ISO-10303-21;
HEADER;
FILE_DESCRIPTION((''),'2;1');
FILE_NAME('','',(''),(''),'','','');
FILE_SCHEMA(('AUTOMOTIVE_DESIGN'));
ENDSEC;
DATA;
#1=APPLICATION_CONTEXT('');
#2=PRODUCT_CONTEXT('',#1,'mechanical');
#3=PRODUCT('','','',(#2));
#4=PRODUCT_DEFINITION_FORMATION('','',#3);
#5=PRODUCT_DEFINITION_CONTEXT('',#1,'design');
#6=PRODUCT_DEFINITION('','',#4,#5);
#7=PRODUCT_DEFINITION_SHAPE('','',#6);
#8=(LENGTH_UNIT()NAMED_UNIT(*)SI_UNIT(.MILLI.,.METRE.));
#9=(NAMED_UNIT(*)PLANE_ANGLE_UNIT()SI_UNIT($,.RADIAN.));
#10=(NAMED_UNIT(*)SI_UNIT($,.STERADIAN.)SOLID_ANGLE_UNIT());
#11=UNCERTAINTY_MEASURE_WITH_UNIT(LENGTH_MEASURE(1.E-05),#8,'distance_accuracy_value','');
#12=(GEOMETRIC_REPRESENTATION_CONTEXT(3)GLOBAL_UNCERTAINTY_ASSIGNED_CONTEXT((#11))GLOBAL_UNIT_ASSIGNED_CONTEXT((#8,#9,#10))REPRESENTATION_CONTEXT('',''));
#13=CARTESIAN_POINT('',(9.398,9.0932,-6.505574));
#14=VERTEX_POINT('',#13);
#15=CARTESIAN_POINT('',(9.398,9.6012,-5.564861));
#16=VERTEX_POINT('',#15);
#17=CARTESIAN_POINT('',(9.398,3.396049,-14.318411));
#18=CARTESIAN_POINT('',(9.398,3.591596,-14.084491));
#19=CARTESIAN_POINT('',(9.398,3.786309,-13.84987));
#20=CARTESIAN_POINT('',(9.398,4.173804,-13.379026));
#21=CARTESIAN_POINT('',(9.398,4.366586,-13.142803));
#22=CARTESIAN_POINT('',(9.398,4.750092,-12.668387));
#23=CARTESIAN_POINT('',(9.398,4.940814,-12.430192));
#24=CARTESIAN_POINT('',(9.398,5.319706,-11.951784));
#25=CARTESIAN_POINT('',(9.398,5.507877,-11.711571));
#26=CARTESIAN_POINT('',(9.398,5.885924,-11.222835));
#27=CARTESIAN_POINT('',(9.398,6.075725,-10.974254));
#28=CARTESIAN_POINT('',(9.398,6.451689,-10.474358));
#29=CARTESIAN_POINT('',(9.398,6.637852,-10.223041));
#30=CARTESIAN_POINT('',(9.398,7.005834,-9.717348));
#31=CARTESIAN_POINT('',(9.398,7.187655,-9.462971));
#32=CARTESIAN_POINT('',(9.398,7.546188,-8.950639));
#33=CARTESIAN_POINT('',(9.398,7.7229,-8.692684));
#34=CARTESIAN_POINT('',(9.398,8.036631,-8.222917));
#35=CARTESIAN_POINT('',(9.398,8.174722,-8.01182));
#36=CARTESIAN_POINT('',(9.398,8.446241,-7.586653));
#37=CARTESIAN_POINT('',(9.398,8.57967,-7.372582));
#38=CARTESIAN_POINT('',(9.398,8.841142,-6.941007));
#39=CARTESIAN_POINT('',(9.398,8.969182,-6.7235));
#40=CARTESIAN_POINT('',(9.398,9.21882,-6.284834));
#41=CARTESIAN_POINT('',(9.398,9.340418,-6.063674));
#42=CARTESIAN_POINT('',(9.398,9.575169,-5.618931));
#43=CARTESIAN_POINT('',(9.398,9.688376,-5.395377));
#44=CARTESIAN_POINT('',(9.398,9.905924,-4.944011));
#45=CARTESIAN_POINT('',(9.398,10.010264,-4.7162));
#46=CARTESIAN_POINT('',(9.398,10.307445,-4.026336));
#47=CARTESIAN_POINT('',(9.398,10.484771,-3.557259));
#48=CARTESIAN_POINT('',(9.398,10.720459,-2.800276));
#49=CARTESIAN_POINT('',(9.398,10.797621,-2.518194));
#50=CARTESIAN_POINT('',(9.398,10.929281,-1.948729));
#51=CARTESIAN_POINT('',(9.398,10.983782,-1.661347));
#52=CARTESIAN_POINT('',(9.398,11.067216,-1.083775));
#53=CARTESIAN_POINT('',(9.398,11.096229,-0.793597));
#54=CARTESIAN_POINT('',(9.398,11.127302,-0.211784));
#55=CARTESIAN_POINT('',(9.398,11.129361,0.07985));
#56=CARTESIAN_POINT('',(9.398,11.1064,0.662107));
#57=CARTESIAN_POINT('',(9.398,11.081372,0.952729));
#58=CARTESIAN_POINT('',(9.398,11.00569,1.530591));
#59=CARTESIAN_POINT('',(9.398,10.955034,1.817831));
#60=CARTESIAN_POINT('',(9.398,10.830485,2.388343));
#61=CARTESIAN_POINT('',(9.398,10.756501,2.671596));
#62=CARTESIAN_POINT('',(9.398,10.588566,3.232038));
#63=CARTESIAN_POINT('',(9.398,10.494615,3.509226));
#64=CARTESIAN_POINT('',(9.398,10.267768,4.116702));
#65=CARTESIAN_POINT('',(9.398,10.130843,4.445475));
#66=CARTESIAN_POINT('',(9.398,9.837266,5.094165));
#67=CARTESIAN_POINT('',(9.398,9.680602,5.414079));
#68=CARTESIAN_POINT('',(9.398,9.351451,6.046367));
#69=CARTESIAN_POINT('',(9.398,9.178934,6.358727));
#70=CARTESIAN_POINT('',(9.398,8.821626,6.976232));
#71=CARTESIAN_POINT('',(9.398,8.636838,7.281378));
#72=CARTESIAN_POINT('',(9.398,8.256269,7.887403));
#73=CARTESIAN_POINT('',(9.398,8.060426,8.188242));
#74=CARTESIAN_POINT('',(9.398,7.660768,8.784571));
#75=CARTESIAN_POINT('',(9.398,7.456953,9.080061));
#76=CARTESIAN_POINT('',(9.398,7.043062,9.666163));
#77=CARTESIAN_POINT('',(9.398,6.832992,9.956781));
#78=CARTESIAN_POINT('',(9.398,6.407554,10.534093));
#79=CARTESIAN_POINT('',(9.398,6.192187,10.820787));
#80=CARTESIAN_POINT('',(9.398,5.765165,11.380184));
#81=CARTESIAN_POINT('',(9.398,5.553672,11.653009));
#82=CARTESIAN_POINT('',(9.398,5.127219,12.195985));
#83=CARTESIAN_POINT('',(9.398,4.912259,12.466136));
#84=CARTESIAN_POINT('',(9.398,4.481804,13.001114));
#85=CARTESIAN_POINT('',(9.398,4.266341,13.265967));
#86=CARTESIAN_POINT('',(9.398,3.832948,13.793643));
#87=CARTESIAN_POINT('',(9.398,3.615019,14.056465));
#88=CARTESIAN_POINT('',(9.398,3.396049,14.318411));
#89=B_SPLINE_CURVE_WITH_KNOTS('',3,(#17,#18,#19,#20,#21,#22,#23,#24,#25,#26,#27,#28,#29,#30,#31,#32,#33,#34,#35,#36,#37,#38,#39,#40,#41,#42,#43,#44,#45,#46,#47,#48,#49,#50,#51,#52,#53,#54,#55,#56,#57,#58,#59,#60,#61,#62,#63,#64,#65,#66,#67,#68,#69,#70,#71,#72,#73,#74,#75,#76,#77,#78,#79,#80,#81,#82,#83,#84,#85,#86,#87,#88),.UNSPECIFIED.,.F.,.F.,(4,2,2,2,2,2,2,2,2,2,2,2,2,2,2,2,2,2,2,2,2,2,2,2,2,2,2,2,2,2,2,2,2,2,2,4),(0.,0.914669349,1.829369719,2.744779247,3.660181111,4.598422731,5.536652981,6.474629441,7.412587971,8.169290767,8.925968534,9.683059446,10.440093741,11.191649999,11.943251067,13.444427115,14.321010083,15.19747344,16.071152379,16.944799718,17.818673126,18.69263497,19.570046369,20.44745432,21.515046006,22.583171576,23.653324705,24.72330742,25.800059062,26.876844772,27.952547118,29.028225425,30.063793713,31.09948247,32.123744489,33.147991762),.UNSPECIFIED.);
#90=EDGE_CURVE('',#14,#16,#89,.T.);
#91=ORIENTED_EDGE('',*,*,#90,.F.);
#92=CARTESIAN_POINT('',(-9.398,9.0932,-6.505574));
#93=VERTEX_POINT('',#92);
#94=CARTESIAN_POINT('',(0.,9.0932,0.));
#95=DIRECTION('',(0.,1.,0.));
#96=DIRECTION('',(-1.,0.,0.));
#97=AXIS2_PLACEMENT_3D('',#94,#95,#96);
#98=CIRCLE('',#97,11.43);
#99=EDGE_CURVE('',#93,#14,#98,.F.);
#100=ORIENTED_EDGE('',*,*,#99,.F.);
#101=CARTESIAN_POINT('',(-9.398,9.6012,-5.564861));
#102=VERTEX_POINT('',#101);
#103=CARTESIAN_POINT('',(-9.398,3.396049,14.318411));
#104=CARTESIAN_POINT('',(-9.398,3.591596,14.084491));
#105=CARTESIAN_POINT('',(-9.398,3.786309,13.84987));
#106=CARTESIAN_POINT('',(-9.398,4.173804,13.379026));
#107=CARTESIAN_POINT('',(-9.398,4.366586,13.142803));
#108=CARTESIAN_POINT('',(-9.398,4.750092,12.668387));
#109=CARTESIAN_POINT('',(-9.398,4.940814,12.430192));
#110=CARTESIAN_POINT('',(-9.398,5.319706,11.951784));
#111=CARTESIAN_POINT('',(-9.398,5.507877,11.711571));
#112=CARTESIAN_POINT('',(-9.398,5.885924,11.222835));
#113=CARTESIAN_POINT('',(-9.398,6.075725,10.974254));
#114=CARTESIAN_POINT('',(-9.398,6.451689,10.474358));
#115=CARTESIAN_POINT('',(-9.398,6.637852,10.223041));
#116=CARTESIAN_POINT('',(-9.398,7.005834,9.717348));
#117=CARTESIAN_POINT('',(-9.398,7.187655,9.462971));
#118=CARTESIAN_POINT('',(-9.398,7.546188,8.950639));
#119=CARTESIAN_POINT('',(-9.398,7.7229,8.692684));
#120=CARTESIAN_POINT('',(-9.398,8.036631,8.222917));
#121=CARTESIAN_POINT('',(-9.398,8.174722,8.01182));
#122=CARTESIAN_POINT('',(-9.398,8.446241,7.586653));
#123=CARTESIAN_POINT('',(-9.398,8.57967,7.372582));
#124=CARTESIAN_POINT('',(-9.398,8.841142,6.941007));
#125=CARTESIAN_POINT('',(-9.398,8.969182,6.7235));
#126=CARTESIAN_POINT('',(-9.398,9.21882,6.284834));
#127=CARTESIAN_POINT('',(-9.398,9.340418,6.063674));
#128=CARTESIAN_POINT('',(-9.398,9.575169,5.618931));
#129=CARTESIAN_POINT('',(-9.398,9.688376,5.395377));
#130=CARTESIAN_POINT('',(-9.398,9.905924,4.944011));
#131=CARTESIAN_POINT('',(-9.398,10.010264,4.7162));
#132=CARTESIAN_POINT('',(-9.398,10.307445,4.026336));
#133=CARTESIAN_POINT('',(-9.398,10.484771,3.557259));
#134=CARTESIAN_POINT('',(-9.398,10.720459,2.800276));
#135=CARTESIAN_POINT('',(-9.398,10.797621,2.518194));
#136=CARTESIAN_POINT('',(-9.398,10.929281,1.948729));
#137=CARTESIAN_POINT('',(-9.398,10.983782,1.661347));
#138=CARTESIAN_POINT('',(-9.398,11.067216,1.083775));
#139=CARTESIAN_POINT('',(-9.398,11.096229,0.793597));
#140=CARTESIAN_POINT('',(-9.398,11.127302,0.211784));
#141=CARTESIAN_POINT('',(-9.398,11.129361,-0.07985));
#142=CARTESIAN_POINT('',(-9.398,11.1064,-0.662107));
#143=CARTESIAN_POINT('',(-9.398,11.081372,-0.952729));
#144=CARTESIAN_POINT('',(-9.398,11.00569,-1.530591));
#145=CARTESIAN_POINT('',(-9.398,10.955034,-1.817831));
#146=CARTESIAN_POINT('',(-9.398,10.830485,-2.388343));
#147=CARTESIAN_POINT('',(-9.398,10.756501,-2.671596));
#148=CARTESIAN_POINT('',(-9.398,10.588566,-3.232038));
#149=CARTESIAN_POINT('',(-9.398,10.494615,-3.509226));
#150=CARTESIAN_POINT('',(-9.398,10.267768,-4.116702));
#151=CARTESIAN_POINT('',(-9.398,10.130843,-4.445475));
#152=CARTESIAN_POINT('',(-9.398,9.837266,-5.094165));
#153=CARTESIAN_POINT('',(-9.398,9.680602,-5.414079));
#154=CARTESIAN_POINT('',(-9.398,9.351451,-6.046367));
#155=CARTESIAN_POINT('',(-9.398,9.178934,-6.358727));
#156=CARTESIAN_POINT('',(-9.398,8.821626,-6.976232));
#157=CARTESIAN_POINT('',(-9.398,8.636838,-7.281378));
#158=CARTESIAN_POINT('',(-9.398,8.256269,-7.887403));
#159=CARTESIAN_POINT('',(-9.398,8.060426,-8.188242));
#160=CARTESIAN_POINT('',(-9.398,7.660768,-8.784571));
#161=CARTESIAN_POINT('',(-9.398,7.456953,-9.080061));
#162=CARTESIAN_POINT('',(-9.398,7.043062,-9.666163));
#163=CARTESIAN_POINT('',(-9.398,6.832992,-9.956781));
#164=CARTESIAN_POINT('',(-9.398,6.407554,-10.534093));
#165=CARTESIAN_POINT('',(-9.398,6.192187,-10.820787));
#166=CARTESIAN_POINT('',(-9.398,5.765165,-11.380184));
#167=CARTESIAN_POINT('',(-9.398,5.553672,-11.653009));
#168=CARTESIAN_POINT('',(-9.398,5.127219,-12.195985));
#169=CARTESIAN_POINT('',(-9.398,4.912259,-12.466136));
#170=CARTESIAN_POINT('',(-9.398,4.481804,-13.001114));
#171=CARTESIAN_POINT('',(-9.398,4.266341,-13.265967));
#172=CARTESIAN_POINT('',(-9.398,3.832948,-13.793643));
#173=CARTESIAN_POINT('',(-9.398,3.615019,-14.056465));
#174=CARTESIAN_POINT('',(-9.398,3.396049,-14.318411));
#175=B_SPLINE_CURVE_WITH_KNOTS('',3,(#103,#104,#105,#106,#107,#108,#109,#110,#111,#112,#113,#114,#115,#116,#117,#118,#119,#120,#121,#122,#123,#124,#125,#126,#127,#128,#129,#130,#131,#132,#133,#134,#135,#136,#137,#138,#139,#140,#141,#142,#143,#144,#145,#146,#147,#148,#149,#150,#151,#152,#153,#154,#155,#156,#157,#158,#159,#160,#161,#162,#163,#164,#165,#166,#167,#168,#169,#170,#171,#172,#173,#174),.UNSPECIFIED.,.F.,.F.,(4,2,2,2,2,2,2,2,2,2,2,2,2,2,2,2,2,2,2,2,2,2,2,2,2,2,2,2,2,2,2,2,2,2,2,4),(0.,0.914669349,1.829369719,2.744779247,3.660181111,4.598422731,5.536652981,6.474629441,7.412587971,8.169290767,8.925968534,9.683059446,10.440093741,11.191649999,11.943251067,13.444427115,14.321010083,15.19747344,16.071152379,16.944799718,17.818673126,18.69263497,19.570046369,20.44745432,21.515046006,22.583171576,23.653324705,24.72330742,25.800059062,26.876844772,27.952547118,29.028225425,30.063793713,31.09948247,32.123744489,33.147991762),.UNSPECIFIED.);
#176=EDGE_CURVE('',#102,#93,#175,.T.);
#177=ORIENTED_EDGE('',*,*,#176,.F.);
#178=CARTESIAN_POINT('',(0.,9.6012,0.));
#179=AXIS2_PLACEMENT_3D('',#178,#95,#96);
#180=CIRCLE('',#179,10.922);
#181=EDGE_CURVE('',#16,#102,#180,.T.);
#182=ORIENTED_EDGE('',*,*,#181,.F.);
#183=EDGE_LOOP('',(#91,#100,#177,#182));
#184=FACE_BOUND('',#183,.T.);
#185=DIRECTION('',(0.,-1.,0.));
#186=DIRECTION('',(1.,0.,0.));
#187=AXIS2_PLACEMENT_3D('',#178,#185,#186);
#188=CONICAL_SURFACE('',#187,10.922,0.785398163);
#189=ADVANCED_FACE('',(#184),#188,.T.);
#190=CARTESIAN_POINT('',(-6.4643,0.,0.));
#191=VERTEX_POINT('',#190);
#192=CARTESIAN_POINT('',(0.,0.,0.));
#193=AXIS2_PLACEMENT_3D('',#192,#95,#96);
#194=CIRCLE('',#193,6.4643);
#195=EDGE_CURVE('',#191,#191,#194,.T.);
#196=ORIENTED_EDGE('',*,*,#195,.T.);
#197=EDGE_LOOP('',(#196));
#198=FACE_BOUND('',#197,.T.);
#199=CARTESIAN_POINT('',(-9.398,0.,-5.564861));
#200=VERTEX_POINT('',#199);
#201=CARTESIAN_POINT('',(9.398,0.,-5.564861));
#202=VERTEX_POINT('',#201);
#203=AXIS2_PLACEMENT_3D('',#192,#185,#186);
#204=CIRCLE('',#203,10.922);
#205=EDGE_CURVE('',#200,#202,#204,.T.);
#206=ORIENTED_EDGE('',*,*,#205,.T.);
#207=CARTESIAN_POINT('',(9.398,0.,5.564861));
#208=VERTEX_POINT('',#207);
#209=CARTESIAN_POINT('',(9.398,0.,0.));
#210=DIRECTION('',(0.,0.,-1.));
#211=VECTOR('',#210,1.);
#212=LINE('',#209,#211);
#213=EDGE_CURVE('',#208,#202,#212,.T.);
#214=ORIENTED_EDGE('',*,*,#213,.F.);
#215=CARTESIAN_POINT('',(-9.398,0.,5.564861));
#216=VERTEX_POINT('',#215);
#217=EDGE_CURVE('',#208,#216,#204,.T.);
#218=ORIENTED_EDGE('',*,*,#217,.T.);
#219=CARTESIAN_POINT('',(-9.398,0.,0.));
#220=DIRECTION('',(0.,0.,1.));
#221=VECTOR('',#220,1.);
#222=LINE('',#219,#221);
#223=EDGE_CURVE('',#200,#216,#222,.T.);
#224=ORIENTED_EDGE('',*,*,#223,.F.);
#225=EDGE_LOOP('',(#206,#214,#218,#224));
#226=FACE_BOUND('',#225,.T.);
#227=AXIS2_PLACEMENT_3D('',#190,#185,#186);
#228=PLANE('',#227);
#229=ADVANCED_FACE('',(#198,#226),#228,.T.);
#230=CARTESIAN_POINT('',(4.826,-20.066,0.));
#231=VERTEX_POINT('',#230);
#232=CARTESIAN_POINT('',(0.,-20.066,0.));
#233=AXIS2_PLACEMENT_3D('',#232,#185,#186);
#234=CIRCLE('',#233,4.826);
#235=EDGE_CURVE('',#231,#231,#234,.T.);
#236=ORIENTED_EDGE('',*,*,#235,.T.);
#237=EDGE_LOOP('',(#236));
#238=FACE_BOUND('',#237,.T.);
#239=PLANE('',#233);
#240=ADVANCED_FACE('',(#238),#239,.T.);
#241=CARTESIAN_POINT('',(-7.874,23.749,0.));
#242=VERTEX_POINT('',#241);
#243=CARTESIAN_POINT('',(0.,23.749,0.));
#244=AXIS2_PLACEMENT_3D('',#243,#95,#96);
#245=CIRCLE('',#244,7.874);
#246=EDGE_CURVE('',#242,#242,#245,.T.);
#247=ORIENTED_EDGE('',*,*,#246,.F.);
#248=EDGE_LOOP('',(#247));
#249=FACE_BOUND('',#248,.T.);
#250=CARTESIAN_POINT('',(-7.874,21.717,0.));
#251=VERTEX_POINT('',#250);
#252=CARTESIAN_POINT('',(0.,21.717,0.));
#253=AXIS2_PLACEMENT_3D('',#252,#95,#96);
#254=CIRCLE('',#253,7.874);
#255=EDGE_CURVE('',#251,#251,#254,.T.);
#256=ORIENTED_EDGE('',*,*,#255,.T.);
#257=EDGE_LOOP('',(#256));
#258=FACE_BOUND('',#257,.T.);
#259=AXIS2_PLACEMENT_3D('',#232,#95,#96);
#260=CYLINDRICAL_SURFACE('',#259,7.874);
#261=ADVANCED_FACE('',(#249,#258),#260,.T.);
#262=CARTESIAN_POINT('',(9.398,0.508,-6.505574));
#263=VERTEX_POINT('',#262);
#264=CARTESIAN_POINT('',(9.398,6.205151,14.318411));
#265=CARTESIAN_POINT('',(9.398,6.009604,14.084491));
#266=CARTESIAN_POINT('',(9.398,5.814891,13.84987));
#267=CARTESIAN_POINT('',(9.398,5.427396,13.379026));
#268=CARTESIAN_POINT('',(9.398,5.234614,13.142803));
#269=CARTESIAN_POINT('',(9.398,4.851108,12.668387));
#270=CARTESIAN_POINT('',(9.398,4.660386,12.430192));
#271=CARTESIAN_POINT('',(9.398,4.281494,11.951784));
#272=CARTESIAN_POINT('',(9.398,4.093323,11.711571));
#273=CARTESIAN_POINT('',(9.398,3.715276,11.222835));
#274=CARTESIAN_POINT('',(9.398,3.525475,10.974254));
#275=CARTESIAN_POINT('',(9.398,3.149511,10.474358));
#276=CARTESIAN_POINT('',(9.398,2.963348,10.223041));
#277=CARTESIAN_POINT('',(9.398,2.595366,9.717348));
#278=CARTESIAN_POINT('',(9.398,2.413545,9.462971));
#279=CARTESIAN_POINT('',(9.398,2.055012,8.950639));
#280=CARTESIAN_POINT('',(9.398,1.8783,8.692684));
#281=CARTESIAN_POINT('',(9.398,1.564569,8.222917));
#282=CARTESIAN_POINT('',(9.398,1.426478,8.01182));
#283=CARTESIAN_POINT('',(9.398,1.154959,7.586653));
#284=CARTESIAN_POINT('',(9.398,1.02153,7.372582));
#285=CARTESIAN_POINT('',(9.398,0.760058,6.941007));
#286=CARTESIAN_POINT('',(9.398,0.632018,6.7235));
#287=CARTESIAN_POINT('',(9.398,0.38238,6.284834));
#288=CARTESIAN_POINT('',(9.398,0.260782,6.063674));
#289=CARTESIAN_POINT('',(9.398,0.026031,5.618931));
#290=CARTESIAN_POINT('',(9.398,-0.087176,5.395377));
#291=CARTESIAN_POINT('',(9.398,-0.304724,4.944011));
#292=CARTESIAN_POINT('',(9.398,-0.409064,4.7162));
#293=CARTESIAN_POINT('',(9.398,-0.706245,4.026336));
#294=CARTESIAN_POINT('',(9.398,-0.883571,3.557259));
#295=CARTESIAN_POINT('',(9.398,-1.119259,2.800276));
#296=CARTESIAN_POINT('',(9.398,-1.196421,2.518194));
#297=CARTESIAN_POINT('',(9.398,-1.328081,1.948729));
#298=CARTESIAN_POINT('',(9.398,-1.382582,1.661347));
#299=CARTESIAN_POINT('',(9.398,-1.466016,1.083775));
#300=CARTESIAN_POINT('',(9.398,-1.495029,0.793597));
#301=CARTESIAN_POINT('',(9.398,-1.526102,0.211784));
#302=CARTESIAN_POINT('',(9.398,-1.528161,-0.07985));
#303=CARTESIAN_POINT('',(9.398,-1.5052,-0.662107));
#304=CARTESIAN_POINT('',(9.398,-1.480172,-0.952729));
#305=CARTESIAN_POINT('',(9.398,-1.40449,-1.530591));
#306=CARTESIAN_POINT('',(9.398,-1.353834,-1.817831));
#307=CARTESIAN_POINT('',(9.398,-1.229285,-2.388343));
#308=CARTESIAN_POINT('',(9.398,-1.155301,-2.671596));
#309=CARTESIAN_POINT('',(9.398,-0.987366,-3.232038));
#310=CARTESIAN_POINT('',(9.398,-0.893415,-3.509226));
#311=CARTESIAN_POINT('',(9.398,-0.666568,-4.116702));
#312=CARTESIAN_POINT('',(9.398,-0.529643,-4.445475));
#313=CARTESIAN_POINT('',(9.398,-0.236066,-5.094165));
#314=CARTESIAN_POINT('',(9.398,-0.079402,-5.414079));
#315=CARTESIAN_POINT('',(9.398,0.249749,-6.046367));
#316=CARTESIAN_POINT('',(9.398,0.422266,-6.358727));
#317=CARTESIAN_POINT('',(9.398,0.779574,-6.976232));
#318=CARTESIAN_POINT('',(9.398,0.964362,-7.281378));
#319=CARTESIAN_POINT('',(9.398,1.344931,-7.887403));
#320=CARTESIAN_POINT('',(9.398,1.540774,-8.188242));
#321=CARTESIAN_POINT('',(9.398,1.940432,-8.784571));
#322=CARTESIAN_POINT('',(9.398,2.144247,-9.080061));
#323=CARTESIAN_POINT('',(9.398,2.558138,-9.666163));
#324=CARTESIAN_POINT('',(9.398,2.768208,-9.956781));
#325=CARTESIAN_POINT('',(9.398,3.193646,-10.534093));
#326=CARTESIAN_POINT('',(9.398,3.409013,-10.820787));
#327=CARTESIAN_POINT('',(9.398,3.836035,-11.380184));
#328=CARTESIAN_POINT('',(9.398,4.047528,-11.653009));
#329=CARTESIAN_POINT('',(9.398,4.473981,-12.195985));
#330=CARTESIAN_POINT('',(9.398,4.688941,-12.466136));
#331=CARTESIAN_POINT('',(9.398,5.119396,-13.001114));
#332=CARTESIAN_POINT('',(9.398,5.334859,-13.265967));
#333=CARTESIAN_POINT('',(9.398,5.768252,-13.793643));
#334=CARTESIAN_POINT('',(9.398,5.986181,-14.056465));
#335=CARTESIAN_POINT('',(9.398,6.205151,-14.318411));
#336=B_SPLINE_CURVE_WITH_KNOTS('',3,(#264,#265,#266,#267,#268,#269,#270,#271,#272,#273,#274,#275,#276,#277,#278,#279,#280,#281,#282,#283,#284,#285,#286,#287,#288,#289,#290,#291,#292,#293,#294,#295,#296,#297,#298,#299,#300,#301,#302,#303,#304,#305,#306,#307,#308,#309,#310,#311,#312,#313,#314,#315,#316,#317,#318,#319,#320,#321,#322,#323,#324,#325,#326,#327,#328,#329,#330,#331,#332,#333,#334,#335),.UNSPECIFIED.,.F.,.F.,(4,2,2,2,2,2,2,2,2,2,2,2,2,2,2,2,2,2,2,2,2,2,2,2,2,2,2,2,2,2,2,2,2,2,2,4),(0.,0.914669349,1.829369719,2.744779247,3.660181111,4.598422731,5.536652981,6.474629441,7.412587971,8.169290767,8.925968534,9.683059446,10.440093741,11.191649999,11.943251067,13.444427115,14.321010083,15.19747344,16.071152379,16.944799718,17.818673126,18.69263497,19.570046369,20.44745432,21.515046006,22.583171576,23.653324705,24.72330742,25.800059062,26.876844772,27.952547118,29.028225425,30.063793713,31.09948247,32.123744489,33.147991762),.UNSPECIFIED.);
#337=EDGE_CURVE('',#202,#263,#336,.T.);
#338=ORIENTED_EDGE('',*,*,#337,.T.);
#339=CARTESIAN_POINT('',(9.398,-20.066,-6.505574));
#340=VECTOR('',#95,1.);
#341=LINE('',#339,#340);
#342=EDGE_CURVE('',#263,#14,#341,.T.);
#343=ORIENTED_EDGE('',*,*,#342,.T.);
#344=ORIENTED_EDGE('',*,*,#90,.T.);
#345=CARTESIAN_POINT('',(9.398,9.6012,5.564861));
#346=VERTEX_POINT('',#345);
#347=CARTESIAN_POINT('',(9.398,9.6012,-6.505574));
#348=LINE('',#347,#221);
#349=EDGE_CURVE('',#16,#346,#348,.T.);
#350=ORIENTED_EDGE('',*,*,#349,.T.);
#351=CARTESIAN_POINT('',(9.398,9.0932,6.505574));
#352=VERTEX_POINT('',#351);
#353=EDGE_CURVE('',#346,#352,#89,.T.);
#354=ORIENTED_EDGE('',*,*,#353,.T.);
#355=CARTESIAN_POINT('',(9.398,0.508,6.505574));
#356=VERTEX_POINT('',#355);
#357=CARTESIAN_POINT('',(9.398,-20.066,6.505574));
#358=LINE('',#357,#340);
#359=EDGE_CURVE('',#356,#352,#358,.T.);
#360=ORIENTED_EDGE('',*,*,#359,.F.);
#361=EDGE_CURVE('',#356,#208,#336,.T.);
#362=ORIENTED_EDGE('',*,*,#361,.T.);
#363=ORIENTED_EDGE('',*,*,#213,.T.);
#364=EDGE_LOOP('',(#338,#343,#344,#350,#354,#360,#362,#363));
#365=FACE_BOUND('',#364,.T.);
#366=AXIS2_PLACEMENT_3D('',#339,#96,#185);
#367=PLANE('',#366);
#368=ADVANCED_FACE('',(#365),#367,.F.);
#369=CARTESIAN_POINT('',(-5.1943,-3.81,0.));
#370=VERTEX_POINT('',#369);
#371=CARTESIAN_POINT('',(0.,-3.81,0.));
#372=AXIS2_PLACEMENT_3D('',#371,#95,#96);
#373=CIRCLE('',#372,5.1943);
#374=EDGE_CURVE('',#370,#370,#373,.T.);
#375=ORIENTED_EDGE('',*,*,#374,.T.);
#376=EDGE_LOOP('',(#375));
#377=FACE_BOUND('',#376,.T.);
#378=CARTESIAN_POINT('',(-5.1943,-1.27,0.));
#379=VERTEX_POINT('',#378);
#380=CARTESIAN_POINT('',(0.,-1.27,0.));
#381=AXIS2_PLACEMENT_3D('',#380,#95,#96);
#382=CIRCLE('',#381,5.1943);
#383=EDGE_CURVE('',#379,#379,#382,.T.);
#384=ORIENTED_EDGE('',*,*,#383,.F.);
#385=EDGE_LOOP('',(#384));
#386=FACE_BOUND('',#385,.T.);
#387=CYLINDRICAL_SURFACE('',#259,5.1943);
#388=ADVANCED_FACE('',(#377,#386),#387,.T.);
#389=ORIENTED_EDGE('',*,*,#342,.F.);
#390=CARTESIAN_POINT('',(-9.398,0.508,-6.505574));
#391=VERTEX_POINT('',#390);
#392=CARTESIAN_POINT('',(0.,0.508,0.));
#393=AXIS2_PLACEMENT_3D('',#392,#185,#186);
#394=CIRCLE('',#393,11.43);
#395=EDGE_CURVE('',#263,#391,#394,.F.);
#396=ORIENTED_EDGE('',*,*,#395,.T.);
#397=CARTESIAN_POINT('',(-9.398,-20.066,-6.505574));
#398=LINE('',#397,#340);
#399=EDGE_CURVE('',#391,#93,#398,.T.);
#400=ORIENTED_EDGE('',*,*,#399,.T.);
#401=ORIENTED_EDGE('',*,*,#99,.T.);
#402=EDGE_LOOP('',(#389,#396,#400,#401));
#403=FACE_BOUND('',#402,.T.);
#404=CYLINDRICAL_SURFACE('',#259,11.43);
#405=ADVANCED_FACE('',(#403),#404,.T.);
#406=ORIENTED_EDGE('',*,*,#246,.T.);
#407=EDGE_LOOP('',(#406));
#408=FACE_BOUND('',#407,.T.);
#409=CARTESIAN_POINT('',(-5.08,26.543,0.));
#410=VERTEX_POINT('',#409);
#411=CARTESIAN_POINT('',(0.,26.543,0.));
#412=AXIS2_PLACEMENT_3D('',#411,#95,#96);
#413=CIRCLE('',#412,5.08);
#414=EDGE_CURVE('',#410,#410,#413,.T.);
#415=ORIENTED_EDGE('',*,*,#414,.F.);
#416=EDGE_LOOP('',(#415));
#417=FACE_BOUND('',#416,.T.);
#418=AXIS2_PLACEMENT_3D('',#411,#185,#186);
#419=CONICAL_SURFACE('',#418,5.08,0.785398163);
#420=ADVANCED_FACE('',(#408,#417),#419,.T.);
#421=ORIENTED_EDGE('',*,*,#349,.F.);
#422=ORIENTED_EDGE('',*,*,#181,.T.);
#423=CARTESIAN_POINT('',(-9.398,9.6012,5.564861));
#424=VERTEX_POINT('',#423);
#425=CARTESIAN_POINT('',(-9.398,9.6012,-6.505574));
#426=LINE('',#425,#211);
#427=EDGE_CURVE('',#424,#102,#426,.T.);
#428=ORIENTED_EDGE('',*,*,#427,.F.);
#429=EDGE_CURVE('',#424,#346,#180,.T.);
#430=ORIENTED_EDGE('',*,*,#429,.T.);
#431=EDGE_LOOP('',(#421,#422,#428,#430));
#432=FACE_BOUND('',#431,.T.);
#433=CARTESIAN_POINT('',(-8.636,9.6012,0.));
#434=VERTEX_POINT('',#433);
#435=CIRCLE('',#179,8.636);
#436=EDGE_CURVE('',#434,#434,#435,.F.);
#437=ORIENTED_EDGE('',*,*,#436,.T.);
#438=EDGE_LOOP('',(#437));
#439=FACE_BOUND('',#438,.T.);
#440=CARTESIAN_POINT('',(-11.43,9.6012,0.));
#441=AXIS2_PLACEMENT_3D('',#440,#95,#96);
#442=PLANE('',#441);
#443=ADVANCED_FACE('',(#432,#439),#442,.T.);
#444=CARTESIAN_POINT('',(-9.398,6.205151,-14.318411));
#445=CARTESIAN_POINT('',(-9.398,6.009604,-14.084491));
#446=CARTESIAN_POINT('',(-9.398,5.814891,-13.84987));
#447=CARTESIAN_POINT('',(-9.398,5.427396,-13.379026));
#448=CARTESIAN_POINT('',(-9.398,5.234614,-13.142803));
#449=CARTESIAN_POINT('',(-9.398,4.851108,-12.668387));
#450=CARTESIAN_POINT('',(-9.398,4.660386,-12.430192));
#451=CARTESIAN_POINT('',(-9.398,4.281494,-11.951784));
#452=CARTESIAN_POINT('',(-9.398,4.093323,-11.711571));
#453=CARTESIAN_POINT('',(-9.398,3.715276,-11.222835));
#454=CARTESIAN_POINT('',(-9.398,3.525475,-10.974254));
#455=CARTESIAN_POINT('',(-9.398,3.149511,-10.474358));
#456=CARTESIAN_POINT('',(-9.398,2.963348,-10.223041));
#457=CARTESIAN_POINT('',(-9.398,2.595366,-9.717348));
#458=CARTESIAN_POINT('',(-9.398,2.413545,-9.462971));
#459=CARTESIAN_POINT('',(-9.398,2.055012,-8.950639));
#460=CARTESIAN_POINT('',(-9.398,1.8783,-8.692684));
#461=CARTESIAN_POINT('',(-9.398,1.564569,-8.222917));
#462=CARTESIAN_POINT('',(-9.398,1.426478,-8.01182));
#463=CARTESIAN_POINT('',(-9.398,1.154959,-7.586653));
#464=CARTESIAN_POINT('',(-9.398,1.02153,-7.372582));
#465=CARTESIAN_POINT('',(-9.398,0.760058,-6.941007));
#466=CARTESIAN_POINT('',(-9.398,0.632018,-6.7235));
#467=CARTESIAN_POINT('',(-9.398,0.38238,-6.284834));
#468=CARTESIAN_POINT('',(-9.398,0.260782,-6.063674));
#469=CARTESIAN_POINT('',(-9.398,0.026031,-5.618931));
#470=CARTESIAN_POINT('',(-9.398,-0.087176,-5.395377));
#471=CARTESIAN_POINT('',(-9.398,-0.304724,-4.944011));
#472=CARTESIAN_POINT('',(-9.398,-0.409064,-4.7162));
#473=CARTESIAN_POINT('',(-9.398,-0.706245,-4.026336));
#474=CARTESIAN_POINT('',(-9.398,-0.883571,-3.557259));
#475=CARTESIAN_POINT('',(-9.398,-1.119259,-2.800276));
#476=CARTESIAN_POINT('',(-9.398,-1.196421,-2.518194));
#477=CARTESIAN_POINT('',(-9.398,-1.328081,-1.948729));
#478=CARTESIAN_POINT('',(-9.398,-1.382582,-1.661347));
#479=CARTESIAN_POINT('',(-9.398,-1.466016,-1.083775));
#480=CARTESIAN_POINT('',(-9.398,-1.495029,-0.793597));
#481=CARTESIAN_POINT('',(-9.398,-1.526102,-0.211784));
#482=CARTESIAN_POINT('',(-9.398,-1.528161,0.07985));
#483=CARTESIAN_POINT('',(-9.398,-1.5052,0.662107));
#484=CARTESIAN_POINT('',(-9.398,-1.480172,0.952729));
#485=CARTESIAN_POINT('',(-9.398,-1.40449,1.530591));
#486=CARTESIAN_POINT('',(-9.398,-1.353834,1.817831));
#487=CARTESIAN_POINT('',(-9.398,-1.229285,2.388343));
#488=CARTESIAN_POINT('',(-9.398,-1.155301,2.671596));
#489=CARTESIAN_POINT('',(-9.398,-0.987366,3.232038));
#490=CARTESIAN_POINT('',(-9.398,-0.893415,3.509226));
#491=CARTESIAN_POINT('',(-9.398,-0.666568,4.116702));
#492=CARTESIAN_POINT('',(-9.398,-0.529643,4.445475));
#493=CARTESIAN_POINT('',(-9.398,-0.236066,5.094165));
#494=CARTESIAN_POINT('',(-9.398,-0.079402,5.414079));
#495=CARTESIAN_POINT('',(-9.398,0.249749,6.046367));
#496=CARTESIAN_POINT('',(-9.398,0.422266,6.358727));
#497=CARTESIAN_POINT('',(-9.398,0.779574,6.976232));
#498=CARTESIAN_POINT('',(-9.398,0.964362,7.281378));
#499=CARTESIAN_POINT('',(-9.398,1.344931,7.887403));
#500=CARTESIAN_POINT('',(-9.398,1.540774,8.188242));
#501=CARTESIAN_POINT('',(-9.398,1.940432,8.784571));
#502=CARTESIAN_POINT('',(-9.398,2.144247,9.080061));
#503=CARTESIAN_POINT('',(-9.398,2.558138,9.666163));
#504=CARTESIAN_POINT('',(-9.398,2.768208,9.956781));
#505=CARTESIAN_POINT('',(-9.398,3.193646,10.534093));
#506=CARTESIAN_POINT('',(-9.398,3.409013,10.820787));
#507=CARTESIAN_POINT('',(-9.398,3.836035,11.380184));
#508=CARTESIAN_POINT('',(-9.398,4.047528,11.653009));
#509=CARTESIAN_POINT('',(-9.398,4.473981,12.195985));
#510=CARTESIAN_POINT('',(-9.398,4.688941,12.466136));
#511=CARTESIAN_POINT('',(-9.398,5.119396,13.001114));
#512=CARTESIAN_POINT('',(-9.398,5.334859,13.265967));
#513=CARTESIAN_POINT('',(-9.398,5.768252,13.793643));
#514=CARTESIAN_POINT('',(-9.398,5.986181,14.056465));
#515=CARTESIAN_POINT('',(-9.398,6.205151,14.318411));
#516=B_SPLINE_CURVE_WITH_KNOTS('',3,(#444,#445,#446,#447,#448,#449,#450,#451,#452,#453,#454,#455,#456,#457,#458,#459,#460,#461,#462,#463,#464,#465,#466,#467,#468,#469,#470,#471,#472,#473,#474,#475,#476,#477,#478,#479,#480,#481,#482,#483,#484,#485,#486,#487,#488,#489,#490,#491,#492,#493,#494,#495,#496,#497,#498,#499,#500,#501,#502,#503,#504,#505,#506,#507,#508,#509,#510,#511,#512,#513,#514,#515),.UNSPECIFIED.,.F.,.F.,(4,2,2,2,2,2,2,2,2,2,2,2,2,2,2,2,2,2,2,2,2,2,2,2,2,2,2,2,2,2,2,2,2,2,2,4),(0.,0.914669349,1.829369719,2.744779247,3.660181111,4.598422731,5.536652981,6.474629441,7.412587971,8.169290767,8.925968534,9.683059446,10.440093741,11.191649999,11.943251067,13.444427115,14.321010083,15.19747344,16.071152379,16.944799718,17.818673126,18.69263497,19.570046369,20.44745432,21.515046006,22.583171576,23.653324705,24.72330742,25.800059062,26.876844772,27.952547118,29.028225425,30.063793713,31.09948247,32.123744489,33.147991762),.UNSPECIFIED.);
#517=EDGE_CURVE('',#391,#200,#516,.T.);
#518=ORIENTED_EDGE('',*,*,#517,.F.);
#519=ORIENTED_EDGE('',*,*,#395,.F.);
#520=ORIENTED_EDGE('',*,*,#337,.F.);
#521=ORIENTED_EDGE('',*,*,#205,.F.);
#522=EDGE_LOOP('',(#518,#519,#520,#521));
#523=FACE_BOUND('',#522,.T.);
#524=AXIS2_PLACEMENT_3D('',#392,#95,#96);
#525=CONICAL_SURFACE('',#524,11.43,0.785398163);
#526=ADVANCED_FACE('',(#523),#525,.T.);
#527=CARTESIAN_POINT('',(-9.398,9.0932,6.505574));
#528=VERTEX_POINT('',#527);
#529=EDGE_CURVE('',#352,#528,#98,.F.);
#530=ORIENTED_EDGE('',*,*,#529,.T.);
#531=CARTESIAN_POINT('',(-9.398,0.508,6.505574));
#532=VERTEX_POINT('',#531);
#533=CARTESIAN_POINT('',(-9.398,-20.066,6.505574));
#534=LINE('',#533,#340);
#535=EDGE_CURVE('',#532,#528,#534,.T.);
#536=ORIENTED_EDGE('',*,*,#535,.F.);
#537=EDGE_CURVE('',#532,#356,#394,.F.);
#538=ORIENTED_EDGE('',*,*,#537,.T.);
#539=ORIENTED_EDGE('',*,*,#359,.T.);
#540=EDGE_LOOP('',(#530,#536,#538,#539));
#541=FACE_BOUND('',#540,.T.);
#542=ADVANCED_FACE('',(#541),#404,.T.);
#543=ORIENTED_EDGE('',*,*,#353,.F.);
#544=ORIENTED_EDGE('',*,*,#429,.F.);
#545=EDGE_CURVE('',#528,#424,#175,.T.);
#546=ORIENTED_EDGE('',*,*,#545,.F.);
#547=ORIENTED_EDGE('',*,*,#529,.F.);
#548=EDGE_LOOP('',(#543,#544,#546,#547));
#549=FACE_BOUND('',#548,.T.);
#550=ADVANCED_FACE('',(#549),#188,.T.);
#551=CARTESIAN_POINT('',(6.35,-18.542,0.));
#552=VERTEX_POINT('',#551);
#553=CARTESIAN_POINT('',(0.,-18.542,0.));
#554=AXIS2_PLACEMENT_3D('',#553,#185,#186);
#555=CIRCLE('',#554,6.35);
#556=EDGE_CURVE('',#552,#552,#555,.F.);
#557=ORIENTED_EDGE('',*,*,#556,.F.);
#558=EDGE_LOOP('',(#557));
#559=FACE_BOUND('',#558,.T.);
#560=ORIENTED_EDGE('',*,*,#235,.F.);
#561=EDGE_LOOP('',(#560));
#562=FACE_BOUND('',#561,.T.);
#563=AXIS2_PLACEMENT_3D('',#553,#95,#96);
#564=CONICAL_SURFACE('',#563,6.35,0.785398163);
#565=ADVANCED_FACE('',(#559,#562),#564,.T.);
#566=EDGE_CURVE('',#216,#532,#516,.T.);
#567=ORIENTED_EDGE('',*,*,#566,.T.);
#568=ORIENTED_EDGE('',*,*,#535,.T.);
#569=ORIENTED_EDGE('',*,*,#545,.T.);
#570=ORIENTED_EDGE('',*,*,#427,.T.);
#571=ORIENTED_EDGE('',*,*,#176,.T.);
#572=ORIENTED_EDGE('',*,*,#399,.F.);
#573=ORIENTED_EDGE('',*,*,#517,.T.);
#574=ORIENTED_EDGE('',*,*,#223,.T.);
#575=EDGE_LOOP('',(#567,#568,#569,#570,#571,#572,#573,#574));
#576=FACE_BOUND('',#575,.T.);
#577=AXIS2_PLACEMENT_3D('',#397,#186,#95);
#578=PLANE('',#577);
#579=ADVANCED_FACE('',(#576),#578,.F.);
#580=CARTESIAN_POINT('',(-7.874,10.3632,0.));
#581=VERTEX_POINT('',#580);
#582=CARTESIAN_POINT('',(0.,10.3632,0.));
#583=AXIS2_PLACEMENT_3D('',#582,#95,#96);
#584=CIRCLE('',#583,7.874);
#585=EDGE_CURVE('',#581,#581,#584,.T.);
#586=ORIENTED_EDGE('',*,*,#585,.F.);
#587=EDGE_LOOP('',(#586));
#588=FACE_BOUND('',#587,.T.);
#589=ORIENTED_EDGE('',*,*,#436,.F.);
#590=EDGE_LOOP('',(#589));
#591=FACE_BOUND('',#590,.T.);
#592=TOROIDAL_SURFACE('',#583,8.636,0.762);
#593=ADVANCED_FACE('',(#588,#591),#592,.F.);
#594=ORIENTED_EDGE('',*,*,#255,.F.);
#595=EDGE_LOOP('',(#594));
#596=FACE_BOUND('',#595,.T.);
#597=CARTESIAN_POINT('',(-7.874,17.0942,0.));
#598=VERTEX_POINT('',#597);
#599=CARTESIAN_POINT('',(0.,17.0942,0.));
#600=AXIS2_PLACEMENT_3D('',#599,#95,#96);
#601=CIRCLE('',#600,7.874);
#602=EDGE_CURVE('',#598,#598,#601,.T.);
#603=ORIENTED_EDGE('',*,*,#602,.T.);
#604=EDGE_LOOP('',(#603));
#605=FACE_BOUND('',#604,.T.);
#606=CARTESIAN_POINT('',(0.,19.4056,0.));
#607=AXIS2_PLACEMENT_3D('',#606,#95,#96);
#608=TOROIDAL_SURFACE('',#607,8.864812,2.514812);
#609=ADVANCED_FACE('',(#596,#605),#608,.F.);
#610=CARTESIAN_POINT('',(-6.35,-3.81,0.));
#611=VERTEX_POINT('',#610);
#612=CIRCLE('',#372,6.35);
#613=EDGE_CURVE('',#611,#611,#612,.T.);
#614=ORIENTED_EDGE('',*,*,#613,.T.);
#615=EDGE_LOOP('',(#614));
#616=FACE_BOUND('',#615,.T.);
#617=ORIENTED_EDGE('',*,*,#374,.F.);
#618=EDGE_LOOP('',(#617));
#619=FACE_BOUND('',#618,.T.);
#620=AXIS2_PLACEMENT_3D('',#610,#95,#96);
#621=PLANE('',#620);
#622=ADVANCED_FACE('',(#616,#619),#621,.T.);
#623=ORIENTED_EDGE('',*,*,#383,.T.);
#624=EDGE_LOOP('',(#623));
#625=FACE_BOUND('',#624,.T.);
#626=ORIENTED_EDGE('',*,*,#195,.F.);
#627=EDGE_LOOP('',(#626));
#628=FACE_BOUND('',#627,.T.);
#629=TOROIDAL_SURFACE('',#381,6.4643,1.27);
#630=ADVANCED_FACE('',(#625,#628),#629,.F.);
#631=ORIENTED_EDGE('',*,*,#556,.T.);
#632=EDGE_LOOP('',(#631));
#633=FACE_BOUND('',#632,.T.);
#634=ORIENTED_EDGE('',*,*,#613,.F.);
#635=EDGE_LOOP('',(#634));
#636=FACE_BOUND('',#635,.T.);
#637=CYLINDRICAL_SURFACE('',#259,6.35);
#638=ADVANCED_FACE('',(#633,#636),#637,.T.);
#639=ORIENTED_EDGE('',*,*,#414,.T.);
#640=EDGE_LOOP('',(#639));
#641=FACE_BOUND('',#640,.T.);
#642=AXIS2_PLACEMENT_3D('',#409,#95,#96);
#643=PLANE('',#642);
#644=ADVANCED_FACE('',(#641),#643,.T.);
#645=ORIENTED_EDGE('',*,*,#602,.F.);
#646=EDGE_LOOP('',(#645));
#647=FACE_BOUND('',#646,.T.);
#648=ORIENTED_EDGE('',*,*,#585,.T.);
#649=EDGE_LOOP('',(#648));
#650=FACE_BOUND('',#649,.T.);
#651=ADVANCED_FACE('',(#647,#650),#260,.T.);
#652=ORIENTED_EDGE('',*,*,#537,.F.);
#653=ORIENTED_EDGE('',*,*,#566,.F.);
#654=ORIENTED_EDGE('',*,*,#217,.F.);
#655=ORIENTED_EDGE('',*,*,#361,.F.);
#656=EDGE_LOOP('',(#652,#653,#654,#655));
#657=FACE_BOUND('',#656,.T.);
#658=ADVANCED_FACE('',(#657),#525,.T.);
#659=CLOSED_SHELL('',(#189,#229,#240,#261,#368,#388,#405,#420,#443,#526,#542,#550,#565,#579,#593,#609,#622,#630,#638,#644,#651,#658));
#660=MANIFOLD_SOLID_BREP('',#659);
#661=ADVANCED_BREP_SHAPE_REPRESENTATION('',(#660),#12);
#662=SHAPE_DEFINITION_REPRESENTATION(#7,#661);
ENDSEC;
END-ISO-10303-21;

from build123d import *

# Parameters (mm, degrees)
CHAMFER1_SIZE      = 0.508
CHAMFER2_SIZE      = 1.524
CUT_EXTRUDE1_DEPTH = 30.6672
FILLET1_R          = 0.762


with BuildPart() as part:
    # Sketch1 → Revolve1 (revolve)
    with BuildSketch(Plane.XY):
        with BuildLine():
            Line((0, 26.543), (0, -20.066))
            Line((0, -20.066), (-6.35, -20.066))
            Line((-6.35, -20.066), (-6.35, -3.81))
            Line((-6.35, -3.81), (-5.1943, -3.81))
            Line((-5.1943, -3.81), (-5.1943, -1.27))
            ThreePointArc((-5.1943, -1.27), (-5.566274388, -0.371974388), (-6.4643, 0))
            Line((-6.4643, 0), (-11.43, 0))
            Line((-11.43, 0), (-11.43, 9.6012))
            Line((-11.43, 9.6012), (-7.874, 9.6012))
            Line((-7.874, 9.6012), (-7.874, 17.0942))
            ThreePointArc((-7.874, 17.0942), (-6.35, 19.4056), (-7.874, 21.717))
            Line((-7.874, 21.717), (-7.874, 23.749))
            Line((-7.874, 23.749), (-5.08, 26.543))
            Line((-5.08, 26.543), (0, 26.543))
        make_face()
    revolve(axis=Axis((0, -20.066, 0), (0, -1, 0)))

    # Chamfer1
    chamfer1_edges = [part.edges().sort_by_distance(p)[0] for p in [
        (11.43, 9.6012, 0),
        (11.43, 0, 0),
    ]]
    chamfer(chamfer1_edges, length=CHAMFER1_SIZE)

    # Chamfer2
    chamfer2_edges = [part.edges().sort_by_distance(p)[0] for p in [
        (6.35, -20.066, 0),
    ]]
    chamfer(chamfer2_edges, length=CHAMFER2_SIZE)

    # Sketch2 → Cut-Extrude1 (cut, through all)
    with BuildSketch(Plane(origin=(0, 9.6012, 0), x_dir=(1, 0, 0), z_dir=(0, 1, 0))):
        with BuildLine():
            Line((-9.398, 6.505574225), (-9.398, -6.505574225))
            ThreePointArc((-9.398, -6.505574225), (-11.43, 0), (-9.398, 6.505574225))
        make_face()
        with BuildLine():
            Line((9.398, 6.505574225), (9.398, -6.505574225))
            ThreePointArc((9.398, -6.505574225), (11.43, 0), (9.398, 6.505574225))
        make_face()
    extrude(amount=-CUT_EXTRUDE1_DEPTH, mode=Mode.SUBTRACT)

    # Fillet1
    fillet1_edges = [part.edges().sort_by_distance(p)[0] for p in [
        (7.874, 9.6012, 0),
    ]]
    fillet(fillet1_edges, radius=FILLET1_R)


solid = part.part
